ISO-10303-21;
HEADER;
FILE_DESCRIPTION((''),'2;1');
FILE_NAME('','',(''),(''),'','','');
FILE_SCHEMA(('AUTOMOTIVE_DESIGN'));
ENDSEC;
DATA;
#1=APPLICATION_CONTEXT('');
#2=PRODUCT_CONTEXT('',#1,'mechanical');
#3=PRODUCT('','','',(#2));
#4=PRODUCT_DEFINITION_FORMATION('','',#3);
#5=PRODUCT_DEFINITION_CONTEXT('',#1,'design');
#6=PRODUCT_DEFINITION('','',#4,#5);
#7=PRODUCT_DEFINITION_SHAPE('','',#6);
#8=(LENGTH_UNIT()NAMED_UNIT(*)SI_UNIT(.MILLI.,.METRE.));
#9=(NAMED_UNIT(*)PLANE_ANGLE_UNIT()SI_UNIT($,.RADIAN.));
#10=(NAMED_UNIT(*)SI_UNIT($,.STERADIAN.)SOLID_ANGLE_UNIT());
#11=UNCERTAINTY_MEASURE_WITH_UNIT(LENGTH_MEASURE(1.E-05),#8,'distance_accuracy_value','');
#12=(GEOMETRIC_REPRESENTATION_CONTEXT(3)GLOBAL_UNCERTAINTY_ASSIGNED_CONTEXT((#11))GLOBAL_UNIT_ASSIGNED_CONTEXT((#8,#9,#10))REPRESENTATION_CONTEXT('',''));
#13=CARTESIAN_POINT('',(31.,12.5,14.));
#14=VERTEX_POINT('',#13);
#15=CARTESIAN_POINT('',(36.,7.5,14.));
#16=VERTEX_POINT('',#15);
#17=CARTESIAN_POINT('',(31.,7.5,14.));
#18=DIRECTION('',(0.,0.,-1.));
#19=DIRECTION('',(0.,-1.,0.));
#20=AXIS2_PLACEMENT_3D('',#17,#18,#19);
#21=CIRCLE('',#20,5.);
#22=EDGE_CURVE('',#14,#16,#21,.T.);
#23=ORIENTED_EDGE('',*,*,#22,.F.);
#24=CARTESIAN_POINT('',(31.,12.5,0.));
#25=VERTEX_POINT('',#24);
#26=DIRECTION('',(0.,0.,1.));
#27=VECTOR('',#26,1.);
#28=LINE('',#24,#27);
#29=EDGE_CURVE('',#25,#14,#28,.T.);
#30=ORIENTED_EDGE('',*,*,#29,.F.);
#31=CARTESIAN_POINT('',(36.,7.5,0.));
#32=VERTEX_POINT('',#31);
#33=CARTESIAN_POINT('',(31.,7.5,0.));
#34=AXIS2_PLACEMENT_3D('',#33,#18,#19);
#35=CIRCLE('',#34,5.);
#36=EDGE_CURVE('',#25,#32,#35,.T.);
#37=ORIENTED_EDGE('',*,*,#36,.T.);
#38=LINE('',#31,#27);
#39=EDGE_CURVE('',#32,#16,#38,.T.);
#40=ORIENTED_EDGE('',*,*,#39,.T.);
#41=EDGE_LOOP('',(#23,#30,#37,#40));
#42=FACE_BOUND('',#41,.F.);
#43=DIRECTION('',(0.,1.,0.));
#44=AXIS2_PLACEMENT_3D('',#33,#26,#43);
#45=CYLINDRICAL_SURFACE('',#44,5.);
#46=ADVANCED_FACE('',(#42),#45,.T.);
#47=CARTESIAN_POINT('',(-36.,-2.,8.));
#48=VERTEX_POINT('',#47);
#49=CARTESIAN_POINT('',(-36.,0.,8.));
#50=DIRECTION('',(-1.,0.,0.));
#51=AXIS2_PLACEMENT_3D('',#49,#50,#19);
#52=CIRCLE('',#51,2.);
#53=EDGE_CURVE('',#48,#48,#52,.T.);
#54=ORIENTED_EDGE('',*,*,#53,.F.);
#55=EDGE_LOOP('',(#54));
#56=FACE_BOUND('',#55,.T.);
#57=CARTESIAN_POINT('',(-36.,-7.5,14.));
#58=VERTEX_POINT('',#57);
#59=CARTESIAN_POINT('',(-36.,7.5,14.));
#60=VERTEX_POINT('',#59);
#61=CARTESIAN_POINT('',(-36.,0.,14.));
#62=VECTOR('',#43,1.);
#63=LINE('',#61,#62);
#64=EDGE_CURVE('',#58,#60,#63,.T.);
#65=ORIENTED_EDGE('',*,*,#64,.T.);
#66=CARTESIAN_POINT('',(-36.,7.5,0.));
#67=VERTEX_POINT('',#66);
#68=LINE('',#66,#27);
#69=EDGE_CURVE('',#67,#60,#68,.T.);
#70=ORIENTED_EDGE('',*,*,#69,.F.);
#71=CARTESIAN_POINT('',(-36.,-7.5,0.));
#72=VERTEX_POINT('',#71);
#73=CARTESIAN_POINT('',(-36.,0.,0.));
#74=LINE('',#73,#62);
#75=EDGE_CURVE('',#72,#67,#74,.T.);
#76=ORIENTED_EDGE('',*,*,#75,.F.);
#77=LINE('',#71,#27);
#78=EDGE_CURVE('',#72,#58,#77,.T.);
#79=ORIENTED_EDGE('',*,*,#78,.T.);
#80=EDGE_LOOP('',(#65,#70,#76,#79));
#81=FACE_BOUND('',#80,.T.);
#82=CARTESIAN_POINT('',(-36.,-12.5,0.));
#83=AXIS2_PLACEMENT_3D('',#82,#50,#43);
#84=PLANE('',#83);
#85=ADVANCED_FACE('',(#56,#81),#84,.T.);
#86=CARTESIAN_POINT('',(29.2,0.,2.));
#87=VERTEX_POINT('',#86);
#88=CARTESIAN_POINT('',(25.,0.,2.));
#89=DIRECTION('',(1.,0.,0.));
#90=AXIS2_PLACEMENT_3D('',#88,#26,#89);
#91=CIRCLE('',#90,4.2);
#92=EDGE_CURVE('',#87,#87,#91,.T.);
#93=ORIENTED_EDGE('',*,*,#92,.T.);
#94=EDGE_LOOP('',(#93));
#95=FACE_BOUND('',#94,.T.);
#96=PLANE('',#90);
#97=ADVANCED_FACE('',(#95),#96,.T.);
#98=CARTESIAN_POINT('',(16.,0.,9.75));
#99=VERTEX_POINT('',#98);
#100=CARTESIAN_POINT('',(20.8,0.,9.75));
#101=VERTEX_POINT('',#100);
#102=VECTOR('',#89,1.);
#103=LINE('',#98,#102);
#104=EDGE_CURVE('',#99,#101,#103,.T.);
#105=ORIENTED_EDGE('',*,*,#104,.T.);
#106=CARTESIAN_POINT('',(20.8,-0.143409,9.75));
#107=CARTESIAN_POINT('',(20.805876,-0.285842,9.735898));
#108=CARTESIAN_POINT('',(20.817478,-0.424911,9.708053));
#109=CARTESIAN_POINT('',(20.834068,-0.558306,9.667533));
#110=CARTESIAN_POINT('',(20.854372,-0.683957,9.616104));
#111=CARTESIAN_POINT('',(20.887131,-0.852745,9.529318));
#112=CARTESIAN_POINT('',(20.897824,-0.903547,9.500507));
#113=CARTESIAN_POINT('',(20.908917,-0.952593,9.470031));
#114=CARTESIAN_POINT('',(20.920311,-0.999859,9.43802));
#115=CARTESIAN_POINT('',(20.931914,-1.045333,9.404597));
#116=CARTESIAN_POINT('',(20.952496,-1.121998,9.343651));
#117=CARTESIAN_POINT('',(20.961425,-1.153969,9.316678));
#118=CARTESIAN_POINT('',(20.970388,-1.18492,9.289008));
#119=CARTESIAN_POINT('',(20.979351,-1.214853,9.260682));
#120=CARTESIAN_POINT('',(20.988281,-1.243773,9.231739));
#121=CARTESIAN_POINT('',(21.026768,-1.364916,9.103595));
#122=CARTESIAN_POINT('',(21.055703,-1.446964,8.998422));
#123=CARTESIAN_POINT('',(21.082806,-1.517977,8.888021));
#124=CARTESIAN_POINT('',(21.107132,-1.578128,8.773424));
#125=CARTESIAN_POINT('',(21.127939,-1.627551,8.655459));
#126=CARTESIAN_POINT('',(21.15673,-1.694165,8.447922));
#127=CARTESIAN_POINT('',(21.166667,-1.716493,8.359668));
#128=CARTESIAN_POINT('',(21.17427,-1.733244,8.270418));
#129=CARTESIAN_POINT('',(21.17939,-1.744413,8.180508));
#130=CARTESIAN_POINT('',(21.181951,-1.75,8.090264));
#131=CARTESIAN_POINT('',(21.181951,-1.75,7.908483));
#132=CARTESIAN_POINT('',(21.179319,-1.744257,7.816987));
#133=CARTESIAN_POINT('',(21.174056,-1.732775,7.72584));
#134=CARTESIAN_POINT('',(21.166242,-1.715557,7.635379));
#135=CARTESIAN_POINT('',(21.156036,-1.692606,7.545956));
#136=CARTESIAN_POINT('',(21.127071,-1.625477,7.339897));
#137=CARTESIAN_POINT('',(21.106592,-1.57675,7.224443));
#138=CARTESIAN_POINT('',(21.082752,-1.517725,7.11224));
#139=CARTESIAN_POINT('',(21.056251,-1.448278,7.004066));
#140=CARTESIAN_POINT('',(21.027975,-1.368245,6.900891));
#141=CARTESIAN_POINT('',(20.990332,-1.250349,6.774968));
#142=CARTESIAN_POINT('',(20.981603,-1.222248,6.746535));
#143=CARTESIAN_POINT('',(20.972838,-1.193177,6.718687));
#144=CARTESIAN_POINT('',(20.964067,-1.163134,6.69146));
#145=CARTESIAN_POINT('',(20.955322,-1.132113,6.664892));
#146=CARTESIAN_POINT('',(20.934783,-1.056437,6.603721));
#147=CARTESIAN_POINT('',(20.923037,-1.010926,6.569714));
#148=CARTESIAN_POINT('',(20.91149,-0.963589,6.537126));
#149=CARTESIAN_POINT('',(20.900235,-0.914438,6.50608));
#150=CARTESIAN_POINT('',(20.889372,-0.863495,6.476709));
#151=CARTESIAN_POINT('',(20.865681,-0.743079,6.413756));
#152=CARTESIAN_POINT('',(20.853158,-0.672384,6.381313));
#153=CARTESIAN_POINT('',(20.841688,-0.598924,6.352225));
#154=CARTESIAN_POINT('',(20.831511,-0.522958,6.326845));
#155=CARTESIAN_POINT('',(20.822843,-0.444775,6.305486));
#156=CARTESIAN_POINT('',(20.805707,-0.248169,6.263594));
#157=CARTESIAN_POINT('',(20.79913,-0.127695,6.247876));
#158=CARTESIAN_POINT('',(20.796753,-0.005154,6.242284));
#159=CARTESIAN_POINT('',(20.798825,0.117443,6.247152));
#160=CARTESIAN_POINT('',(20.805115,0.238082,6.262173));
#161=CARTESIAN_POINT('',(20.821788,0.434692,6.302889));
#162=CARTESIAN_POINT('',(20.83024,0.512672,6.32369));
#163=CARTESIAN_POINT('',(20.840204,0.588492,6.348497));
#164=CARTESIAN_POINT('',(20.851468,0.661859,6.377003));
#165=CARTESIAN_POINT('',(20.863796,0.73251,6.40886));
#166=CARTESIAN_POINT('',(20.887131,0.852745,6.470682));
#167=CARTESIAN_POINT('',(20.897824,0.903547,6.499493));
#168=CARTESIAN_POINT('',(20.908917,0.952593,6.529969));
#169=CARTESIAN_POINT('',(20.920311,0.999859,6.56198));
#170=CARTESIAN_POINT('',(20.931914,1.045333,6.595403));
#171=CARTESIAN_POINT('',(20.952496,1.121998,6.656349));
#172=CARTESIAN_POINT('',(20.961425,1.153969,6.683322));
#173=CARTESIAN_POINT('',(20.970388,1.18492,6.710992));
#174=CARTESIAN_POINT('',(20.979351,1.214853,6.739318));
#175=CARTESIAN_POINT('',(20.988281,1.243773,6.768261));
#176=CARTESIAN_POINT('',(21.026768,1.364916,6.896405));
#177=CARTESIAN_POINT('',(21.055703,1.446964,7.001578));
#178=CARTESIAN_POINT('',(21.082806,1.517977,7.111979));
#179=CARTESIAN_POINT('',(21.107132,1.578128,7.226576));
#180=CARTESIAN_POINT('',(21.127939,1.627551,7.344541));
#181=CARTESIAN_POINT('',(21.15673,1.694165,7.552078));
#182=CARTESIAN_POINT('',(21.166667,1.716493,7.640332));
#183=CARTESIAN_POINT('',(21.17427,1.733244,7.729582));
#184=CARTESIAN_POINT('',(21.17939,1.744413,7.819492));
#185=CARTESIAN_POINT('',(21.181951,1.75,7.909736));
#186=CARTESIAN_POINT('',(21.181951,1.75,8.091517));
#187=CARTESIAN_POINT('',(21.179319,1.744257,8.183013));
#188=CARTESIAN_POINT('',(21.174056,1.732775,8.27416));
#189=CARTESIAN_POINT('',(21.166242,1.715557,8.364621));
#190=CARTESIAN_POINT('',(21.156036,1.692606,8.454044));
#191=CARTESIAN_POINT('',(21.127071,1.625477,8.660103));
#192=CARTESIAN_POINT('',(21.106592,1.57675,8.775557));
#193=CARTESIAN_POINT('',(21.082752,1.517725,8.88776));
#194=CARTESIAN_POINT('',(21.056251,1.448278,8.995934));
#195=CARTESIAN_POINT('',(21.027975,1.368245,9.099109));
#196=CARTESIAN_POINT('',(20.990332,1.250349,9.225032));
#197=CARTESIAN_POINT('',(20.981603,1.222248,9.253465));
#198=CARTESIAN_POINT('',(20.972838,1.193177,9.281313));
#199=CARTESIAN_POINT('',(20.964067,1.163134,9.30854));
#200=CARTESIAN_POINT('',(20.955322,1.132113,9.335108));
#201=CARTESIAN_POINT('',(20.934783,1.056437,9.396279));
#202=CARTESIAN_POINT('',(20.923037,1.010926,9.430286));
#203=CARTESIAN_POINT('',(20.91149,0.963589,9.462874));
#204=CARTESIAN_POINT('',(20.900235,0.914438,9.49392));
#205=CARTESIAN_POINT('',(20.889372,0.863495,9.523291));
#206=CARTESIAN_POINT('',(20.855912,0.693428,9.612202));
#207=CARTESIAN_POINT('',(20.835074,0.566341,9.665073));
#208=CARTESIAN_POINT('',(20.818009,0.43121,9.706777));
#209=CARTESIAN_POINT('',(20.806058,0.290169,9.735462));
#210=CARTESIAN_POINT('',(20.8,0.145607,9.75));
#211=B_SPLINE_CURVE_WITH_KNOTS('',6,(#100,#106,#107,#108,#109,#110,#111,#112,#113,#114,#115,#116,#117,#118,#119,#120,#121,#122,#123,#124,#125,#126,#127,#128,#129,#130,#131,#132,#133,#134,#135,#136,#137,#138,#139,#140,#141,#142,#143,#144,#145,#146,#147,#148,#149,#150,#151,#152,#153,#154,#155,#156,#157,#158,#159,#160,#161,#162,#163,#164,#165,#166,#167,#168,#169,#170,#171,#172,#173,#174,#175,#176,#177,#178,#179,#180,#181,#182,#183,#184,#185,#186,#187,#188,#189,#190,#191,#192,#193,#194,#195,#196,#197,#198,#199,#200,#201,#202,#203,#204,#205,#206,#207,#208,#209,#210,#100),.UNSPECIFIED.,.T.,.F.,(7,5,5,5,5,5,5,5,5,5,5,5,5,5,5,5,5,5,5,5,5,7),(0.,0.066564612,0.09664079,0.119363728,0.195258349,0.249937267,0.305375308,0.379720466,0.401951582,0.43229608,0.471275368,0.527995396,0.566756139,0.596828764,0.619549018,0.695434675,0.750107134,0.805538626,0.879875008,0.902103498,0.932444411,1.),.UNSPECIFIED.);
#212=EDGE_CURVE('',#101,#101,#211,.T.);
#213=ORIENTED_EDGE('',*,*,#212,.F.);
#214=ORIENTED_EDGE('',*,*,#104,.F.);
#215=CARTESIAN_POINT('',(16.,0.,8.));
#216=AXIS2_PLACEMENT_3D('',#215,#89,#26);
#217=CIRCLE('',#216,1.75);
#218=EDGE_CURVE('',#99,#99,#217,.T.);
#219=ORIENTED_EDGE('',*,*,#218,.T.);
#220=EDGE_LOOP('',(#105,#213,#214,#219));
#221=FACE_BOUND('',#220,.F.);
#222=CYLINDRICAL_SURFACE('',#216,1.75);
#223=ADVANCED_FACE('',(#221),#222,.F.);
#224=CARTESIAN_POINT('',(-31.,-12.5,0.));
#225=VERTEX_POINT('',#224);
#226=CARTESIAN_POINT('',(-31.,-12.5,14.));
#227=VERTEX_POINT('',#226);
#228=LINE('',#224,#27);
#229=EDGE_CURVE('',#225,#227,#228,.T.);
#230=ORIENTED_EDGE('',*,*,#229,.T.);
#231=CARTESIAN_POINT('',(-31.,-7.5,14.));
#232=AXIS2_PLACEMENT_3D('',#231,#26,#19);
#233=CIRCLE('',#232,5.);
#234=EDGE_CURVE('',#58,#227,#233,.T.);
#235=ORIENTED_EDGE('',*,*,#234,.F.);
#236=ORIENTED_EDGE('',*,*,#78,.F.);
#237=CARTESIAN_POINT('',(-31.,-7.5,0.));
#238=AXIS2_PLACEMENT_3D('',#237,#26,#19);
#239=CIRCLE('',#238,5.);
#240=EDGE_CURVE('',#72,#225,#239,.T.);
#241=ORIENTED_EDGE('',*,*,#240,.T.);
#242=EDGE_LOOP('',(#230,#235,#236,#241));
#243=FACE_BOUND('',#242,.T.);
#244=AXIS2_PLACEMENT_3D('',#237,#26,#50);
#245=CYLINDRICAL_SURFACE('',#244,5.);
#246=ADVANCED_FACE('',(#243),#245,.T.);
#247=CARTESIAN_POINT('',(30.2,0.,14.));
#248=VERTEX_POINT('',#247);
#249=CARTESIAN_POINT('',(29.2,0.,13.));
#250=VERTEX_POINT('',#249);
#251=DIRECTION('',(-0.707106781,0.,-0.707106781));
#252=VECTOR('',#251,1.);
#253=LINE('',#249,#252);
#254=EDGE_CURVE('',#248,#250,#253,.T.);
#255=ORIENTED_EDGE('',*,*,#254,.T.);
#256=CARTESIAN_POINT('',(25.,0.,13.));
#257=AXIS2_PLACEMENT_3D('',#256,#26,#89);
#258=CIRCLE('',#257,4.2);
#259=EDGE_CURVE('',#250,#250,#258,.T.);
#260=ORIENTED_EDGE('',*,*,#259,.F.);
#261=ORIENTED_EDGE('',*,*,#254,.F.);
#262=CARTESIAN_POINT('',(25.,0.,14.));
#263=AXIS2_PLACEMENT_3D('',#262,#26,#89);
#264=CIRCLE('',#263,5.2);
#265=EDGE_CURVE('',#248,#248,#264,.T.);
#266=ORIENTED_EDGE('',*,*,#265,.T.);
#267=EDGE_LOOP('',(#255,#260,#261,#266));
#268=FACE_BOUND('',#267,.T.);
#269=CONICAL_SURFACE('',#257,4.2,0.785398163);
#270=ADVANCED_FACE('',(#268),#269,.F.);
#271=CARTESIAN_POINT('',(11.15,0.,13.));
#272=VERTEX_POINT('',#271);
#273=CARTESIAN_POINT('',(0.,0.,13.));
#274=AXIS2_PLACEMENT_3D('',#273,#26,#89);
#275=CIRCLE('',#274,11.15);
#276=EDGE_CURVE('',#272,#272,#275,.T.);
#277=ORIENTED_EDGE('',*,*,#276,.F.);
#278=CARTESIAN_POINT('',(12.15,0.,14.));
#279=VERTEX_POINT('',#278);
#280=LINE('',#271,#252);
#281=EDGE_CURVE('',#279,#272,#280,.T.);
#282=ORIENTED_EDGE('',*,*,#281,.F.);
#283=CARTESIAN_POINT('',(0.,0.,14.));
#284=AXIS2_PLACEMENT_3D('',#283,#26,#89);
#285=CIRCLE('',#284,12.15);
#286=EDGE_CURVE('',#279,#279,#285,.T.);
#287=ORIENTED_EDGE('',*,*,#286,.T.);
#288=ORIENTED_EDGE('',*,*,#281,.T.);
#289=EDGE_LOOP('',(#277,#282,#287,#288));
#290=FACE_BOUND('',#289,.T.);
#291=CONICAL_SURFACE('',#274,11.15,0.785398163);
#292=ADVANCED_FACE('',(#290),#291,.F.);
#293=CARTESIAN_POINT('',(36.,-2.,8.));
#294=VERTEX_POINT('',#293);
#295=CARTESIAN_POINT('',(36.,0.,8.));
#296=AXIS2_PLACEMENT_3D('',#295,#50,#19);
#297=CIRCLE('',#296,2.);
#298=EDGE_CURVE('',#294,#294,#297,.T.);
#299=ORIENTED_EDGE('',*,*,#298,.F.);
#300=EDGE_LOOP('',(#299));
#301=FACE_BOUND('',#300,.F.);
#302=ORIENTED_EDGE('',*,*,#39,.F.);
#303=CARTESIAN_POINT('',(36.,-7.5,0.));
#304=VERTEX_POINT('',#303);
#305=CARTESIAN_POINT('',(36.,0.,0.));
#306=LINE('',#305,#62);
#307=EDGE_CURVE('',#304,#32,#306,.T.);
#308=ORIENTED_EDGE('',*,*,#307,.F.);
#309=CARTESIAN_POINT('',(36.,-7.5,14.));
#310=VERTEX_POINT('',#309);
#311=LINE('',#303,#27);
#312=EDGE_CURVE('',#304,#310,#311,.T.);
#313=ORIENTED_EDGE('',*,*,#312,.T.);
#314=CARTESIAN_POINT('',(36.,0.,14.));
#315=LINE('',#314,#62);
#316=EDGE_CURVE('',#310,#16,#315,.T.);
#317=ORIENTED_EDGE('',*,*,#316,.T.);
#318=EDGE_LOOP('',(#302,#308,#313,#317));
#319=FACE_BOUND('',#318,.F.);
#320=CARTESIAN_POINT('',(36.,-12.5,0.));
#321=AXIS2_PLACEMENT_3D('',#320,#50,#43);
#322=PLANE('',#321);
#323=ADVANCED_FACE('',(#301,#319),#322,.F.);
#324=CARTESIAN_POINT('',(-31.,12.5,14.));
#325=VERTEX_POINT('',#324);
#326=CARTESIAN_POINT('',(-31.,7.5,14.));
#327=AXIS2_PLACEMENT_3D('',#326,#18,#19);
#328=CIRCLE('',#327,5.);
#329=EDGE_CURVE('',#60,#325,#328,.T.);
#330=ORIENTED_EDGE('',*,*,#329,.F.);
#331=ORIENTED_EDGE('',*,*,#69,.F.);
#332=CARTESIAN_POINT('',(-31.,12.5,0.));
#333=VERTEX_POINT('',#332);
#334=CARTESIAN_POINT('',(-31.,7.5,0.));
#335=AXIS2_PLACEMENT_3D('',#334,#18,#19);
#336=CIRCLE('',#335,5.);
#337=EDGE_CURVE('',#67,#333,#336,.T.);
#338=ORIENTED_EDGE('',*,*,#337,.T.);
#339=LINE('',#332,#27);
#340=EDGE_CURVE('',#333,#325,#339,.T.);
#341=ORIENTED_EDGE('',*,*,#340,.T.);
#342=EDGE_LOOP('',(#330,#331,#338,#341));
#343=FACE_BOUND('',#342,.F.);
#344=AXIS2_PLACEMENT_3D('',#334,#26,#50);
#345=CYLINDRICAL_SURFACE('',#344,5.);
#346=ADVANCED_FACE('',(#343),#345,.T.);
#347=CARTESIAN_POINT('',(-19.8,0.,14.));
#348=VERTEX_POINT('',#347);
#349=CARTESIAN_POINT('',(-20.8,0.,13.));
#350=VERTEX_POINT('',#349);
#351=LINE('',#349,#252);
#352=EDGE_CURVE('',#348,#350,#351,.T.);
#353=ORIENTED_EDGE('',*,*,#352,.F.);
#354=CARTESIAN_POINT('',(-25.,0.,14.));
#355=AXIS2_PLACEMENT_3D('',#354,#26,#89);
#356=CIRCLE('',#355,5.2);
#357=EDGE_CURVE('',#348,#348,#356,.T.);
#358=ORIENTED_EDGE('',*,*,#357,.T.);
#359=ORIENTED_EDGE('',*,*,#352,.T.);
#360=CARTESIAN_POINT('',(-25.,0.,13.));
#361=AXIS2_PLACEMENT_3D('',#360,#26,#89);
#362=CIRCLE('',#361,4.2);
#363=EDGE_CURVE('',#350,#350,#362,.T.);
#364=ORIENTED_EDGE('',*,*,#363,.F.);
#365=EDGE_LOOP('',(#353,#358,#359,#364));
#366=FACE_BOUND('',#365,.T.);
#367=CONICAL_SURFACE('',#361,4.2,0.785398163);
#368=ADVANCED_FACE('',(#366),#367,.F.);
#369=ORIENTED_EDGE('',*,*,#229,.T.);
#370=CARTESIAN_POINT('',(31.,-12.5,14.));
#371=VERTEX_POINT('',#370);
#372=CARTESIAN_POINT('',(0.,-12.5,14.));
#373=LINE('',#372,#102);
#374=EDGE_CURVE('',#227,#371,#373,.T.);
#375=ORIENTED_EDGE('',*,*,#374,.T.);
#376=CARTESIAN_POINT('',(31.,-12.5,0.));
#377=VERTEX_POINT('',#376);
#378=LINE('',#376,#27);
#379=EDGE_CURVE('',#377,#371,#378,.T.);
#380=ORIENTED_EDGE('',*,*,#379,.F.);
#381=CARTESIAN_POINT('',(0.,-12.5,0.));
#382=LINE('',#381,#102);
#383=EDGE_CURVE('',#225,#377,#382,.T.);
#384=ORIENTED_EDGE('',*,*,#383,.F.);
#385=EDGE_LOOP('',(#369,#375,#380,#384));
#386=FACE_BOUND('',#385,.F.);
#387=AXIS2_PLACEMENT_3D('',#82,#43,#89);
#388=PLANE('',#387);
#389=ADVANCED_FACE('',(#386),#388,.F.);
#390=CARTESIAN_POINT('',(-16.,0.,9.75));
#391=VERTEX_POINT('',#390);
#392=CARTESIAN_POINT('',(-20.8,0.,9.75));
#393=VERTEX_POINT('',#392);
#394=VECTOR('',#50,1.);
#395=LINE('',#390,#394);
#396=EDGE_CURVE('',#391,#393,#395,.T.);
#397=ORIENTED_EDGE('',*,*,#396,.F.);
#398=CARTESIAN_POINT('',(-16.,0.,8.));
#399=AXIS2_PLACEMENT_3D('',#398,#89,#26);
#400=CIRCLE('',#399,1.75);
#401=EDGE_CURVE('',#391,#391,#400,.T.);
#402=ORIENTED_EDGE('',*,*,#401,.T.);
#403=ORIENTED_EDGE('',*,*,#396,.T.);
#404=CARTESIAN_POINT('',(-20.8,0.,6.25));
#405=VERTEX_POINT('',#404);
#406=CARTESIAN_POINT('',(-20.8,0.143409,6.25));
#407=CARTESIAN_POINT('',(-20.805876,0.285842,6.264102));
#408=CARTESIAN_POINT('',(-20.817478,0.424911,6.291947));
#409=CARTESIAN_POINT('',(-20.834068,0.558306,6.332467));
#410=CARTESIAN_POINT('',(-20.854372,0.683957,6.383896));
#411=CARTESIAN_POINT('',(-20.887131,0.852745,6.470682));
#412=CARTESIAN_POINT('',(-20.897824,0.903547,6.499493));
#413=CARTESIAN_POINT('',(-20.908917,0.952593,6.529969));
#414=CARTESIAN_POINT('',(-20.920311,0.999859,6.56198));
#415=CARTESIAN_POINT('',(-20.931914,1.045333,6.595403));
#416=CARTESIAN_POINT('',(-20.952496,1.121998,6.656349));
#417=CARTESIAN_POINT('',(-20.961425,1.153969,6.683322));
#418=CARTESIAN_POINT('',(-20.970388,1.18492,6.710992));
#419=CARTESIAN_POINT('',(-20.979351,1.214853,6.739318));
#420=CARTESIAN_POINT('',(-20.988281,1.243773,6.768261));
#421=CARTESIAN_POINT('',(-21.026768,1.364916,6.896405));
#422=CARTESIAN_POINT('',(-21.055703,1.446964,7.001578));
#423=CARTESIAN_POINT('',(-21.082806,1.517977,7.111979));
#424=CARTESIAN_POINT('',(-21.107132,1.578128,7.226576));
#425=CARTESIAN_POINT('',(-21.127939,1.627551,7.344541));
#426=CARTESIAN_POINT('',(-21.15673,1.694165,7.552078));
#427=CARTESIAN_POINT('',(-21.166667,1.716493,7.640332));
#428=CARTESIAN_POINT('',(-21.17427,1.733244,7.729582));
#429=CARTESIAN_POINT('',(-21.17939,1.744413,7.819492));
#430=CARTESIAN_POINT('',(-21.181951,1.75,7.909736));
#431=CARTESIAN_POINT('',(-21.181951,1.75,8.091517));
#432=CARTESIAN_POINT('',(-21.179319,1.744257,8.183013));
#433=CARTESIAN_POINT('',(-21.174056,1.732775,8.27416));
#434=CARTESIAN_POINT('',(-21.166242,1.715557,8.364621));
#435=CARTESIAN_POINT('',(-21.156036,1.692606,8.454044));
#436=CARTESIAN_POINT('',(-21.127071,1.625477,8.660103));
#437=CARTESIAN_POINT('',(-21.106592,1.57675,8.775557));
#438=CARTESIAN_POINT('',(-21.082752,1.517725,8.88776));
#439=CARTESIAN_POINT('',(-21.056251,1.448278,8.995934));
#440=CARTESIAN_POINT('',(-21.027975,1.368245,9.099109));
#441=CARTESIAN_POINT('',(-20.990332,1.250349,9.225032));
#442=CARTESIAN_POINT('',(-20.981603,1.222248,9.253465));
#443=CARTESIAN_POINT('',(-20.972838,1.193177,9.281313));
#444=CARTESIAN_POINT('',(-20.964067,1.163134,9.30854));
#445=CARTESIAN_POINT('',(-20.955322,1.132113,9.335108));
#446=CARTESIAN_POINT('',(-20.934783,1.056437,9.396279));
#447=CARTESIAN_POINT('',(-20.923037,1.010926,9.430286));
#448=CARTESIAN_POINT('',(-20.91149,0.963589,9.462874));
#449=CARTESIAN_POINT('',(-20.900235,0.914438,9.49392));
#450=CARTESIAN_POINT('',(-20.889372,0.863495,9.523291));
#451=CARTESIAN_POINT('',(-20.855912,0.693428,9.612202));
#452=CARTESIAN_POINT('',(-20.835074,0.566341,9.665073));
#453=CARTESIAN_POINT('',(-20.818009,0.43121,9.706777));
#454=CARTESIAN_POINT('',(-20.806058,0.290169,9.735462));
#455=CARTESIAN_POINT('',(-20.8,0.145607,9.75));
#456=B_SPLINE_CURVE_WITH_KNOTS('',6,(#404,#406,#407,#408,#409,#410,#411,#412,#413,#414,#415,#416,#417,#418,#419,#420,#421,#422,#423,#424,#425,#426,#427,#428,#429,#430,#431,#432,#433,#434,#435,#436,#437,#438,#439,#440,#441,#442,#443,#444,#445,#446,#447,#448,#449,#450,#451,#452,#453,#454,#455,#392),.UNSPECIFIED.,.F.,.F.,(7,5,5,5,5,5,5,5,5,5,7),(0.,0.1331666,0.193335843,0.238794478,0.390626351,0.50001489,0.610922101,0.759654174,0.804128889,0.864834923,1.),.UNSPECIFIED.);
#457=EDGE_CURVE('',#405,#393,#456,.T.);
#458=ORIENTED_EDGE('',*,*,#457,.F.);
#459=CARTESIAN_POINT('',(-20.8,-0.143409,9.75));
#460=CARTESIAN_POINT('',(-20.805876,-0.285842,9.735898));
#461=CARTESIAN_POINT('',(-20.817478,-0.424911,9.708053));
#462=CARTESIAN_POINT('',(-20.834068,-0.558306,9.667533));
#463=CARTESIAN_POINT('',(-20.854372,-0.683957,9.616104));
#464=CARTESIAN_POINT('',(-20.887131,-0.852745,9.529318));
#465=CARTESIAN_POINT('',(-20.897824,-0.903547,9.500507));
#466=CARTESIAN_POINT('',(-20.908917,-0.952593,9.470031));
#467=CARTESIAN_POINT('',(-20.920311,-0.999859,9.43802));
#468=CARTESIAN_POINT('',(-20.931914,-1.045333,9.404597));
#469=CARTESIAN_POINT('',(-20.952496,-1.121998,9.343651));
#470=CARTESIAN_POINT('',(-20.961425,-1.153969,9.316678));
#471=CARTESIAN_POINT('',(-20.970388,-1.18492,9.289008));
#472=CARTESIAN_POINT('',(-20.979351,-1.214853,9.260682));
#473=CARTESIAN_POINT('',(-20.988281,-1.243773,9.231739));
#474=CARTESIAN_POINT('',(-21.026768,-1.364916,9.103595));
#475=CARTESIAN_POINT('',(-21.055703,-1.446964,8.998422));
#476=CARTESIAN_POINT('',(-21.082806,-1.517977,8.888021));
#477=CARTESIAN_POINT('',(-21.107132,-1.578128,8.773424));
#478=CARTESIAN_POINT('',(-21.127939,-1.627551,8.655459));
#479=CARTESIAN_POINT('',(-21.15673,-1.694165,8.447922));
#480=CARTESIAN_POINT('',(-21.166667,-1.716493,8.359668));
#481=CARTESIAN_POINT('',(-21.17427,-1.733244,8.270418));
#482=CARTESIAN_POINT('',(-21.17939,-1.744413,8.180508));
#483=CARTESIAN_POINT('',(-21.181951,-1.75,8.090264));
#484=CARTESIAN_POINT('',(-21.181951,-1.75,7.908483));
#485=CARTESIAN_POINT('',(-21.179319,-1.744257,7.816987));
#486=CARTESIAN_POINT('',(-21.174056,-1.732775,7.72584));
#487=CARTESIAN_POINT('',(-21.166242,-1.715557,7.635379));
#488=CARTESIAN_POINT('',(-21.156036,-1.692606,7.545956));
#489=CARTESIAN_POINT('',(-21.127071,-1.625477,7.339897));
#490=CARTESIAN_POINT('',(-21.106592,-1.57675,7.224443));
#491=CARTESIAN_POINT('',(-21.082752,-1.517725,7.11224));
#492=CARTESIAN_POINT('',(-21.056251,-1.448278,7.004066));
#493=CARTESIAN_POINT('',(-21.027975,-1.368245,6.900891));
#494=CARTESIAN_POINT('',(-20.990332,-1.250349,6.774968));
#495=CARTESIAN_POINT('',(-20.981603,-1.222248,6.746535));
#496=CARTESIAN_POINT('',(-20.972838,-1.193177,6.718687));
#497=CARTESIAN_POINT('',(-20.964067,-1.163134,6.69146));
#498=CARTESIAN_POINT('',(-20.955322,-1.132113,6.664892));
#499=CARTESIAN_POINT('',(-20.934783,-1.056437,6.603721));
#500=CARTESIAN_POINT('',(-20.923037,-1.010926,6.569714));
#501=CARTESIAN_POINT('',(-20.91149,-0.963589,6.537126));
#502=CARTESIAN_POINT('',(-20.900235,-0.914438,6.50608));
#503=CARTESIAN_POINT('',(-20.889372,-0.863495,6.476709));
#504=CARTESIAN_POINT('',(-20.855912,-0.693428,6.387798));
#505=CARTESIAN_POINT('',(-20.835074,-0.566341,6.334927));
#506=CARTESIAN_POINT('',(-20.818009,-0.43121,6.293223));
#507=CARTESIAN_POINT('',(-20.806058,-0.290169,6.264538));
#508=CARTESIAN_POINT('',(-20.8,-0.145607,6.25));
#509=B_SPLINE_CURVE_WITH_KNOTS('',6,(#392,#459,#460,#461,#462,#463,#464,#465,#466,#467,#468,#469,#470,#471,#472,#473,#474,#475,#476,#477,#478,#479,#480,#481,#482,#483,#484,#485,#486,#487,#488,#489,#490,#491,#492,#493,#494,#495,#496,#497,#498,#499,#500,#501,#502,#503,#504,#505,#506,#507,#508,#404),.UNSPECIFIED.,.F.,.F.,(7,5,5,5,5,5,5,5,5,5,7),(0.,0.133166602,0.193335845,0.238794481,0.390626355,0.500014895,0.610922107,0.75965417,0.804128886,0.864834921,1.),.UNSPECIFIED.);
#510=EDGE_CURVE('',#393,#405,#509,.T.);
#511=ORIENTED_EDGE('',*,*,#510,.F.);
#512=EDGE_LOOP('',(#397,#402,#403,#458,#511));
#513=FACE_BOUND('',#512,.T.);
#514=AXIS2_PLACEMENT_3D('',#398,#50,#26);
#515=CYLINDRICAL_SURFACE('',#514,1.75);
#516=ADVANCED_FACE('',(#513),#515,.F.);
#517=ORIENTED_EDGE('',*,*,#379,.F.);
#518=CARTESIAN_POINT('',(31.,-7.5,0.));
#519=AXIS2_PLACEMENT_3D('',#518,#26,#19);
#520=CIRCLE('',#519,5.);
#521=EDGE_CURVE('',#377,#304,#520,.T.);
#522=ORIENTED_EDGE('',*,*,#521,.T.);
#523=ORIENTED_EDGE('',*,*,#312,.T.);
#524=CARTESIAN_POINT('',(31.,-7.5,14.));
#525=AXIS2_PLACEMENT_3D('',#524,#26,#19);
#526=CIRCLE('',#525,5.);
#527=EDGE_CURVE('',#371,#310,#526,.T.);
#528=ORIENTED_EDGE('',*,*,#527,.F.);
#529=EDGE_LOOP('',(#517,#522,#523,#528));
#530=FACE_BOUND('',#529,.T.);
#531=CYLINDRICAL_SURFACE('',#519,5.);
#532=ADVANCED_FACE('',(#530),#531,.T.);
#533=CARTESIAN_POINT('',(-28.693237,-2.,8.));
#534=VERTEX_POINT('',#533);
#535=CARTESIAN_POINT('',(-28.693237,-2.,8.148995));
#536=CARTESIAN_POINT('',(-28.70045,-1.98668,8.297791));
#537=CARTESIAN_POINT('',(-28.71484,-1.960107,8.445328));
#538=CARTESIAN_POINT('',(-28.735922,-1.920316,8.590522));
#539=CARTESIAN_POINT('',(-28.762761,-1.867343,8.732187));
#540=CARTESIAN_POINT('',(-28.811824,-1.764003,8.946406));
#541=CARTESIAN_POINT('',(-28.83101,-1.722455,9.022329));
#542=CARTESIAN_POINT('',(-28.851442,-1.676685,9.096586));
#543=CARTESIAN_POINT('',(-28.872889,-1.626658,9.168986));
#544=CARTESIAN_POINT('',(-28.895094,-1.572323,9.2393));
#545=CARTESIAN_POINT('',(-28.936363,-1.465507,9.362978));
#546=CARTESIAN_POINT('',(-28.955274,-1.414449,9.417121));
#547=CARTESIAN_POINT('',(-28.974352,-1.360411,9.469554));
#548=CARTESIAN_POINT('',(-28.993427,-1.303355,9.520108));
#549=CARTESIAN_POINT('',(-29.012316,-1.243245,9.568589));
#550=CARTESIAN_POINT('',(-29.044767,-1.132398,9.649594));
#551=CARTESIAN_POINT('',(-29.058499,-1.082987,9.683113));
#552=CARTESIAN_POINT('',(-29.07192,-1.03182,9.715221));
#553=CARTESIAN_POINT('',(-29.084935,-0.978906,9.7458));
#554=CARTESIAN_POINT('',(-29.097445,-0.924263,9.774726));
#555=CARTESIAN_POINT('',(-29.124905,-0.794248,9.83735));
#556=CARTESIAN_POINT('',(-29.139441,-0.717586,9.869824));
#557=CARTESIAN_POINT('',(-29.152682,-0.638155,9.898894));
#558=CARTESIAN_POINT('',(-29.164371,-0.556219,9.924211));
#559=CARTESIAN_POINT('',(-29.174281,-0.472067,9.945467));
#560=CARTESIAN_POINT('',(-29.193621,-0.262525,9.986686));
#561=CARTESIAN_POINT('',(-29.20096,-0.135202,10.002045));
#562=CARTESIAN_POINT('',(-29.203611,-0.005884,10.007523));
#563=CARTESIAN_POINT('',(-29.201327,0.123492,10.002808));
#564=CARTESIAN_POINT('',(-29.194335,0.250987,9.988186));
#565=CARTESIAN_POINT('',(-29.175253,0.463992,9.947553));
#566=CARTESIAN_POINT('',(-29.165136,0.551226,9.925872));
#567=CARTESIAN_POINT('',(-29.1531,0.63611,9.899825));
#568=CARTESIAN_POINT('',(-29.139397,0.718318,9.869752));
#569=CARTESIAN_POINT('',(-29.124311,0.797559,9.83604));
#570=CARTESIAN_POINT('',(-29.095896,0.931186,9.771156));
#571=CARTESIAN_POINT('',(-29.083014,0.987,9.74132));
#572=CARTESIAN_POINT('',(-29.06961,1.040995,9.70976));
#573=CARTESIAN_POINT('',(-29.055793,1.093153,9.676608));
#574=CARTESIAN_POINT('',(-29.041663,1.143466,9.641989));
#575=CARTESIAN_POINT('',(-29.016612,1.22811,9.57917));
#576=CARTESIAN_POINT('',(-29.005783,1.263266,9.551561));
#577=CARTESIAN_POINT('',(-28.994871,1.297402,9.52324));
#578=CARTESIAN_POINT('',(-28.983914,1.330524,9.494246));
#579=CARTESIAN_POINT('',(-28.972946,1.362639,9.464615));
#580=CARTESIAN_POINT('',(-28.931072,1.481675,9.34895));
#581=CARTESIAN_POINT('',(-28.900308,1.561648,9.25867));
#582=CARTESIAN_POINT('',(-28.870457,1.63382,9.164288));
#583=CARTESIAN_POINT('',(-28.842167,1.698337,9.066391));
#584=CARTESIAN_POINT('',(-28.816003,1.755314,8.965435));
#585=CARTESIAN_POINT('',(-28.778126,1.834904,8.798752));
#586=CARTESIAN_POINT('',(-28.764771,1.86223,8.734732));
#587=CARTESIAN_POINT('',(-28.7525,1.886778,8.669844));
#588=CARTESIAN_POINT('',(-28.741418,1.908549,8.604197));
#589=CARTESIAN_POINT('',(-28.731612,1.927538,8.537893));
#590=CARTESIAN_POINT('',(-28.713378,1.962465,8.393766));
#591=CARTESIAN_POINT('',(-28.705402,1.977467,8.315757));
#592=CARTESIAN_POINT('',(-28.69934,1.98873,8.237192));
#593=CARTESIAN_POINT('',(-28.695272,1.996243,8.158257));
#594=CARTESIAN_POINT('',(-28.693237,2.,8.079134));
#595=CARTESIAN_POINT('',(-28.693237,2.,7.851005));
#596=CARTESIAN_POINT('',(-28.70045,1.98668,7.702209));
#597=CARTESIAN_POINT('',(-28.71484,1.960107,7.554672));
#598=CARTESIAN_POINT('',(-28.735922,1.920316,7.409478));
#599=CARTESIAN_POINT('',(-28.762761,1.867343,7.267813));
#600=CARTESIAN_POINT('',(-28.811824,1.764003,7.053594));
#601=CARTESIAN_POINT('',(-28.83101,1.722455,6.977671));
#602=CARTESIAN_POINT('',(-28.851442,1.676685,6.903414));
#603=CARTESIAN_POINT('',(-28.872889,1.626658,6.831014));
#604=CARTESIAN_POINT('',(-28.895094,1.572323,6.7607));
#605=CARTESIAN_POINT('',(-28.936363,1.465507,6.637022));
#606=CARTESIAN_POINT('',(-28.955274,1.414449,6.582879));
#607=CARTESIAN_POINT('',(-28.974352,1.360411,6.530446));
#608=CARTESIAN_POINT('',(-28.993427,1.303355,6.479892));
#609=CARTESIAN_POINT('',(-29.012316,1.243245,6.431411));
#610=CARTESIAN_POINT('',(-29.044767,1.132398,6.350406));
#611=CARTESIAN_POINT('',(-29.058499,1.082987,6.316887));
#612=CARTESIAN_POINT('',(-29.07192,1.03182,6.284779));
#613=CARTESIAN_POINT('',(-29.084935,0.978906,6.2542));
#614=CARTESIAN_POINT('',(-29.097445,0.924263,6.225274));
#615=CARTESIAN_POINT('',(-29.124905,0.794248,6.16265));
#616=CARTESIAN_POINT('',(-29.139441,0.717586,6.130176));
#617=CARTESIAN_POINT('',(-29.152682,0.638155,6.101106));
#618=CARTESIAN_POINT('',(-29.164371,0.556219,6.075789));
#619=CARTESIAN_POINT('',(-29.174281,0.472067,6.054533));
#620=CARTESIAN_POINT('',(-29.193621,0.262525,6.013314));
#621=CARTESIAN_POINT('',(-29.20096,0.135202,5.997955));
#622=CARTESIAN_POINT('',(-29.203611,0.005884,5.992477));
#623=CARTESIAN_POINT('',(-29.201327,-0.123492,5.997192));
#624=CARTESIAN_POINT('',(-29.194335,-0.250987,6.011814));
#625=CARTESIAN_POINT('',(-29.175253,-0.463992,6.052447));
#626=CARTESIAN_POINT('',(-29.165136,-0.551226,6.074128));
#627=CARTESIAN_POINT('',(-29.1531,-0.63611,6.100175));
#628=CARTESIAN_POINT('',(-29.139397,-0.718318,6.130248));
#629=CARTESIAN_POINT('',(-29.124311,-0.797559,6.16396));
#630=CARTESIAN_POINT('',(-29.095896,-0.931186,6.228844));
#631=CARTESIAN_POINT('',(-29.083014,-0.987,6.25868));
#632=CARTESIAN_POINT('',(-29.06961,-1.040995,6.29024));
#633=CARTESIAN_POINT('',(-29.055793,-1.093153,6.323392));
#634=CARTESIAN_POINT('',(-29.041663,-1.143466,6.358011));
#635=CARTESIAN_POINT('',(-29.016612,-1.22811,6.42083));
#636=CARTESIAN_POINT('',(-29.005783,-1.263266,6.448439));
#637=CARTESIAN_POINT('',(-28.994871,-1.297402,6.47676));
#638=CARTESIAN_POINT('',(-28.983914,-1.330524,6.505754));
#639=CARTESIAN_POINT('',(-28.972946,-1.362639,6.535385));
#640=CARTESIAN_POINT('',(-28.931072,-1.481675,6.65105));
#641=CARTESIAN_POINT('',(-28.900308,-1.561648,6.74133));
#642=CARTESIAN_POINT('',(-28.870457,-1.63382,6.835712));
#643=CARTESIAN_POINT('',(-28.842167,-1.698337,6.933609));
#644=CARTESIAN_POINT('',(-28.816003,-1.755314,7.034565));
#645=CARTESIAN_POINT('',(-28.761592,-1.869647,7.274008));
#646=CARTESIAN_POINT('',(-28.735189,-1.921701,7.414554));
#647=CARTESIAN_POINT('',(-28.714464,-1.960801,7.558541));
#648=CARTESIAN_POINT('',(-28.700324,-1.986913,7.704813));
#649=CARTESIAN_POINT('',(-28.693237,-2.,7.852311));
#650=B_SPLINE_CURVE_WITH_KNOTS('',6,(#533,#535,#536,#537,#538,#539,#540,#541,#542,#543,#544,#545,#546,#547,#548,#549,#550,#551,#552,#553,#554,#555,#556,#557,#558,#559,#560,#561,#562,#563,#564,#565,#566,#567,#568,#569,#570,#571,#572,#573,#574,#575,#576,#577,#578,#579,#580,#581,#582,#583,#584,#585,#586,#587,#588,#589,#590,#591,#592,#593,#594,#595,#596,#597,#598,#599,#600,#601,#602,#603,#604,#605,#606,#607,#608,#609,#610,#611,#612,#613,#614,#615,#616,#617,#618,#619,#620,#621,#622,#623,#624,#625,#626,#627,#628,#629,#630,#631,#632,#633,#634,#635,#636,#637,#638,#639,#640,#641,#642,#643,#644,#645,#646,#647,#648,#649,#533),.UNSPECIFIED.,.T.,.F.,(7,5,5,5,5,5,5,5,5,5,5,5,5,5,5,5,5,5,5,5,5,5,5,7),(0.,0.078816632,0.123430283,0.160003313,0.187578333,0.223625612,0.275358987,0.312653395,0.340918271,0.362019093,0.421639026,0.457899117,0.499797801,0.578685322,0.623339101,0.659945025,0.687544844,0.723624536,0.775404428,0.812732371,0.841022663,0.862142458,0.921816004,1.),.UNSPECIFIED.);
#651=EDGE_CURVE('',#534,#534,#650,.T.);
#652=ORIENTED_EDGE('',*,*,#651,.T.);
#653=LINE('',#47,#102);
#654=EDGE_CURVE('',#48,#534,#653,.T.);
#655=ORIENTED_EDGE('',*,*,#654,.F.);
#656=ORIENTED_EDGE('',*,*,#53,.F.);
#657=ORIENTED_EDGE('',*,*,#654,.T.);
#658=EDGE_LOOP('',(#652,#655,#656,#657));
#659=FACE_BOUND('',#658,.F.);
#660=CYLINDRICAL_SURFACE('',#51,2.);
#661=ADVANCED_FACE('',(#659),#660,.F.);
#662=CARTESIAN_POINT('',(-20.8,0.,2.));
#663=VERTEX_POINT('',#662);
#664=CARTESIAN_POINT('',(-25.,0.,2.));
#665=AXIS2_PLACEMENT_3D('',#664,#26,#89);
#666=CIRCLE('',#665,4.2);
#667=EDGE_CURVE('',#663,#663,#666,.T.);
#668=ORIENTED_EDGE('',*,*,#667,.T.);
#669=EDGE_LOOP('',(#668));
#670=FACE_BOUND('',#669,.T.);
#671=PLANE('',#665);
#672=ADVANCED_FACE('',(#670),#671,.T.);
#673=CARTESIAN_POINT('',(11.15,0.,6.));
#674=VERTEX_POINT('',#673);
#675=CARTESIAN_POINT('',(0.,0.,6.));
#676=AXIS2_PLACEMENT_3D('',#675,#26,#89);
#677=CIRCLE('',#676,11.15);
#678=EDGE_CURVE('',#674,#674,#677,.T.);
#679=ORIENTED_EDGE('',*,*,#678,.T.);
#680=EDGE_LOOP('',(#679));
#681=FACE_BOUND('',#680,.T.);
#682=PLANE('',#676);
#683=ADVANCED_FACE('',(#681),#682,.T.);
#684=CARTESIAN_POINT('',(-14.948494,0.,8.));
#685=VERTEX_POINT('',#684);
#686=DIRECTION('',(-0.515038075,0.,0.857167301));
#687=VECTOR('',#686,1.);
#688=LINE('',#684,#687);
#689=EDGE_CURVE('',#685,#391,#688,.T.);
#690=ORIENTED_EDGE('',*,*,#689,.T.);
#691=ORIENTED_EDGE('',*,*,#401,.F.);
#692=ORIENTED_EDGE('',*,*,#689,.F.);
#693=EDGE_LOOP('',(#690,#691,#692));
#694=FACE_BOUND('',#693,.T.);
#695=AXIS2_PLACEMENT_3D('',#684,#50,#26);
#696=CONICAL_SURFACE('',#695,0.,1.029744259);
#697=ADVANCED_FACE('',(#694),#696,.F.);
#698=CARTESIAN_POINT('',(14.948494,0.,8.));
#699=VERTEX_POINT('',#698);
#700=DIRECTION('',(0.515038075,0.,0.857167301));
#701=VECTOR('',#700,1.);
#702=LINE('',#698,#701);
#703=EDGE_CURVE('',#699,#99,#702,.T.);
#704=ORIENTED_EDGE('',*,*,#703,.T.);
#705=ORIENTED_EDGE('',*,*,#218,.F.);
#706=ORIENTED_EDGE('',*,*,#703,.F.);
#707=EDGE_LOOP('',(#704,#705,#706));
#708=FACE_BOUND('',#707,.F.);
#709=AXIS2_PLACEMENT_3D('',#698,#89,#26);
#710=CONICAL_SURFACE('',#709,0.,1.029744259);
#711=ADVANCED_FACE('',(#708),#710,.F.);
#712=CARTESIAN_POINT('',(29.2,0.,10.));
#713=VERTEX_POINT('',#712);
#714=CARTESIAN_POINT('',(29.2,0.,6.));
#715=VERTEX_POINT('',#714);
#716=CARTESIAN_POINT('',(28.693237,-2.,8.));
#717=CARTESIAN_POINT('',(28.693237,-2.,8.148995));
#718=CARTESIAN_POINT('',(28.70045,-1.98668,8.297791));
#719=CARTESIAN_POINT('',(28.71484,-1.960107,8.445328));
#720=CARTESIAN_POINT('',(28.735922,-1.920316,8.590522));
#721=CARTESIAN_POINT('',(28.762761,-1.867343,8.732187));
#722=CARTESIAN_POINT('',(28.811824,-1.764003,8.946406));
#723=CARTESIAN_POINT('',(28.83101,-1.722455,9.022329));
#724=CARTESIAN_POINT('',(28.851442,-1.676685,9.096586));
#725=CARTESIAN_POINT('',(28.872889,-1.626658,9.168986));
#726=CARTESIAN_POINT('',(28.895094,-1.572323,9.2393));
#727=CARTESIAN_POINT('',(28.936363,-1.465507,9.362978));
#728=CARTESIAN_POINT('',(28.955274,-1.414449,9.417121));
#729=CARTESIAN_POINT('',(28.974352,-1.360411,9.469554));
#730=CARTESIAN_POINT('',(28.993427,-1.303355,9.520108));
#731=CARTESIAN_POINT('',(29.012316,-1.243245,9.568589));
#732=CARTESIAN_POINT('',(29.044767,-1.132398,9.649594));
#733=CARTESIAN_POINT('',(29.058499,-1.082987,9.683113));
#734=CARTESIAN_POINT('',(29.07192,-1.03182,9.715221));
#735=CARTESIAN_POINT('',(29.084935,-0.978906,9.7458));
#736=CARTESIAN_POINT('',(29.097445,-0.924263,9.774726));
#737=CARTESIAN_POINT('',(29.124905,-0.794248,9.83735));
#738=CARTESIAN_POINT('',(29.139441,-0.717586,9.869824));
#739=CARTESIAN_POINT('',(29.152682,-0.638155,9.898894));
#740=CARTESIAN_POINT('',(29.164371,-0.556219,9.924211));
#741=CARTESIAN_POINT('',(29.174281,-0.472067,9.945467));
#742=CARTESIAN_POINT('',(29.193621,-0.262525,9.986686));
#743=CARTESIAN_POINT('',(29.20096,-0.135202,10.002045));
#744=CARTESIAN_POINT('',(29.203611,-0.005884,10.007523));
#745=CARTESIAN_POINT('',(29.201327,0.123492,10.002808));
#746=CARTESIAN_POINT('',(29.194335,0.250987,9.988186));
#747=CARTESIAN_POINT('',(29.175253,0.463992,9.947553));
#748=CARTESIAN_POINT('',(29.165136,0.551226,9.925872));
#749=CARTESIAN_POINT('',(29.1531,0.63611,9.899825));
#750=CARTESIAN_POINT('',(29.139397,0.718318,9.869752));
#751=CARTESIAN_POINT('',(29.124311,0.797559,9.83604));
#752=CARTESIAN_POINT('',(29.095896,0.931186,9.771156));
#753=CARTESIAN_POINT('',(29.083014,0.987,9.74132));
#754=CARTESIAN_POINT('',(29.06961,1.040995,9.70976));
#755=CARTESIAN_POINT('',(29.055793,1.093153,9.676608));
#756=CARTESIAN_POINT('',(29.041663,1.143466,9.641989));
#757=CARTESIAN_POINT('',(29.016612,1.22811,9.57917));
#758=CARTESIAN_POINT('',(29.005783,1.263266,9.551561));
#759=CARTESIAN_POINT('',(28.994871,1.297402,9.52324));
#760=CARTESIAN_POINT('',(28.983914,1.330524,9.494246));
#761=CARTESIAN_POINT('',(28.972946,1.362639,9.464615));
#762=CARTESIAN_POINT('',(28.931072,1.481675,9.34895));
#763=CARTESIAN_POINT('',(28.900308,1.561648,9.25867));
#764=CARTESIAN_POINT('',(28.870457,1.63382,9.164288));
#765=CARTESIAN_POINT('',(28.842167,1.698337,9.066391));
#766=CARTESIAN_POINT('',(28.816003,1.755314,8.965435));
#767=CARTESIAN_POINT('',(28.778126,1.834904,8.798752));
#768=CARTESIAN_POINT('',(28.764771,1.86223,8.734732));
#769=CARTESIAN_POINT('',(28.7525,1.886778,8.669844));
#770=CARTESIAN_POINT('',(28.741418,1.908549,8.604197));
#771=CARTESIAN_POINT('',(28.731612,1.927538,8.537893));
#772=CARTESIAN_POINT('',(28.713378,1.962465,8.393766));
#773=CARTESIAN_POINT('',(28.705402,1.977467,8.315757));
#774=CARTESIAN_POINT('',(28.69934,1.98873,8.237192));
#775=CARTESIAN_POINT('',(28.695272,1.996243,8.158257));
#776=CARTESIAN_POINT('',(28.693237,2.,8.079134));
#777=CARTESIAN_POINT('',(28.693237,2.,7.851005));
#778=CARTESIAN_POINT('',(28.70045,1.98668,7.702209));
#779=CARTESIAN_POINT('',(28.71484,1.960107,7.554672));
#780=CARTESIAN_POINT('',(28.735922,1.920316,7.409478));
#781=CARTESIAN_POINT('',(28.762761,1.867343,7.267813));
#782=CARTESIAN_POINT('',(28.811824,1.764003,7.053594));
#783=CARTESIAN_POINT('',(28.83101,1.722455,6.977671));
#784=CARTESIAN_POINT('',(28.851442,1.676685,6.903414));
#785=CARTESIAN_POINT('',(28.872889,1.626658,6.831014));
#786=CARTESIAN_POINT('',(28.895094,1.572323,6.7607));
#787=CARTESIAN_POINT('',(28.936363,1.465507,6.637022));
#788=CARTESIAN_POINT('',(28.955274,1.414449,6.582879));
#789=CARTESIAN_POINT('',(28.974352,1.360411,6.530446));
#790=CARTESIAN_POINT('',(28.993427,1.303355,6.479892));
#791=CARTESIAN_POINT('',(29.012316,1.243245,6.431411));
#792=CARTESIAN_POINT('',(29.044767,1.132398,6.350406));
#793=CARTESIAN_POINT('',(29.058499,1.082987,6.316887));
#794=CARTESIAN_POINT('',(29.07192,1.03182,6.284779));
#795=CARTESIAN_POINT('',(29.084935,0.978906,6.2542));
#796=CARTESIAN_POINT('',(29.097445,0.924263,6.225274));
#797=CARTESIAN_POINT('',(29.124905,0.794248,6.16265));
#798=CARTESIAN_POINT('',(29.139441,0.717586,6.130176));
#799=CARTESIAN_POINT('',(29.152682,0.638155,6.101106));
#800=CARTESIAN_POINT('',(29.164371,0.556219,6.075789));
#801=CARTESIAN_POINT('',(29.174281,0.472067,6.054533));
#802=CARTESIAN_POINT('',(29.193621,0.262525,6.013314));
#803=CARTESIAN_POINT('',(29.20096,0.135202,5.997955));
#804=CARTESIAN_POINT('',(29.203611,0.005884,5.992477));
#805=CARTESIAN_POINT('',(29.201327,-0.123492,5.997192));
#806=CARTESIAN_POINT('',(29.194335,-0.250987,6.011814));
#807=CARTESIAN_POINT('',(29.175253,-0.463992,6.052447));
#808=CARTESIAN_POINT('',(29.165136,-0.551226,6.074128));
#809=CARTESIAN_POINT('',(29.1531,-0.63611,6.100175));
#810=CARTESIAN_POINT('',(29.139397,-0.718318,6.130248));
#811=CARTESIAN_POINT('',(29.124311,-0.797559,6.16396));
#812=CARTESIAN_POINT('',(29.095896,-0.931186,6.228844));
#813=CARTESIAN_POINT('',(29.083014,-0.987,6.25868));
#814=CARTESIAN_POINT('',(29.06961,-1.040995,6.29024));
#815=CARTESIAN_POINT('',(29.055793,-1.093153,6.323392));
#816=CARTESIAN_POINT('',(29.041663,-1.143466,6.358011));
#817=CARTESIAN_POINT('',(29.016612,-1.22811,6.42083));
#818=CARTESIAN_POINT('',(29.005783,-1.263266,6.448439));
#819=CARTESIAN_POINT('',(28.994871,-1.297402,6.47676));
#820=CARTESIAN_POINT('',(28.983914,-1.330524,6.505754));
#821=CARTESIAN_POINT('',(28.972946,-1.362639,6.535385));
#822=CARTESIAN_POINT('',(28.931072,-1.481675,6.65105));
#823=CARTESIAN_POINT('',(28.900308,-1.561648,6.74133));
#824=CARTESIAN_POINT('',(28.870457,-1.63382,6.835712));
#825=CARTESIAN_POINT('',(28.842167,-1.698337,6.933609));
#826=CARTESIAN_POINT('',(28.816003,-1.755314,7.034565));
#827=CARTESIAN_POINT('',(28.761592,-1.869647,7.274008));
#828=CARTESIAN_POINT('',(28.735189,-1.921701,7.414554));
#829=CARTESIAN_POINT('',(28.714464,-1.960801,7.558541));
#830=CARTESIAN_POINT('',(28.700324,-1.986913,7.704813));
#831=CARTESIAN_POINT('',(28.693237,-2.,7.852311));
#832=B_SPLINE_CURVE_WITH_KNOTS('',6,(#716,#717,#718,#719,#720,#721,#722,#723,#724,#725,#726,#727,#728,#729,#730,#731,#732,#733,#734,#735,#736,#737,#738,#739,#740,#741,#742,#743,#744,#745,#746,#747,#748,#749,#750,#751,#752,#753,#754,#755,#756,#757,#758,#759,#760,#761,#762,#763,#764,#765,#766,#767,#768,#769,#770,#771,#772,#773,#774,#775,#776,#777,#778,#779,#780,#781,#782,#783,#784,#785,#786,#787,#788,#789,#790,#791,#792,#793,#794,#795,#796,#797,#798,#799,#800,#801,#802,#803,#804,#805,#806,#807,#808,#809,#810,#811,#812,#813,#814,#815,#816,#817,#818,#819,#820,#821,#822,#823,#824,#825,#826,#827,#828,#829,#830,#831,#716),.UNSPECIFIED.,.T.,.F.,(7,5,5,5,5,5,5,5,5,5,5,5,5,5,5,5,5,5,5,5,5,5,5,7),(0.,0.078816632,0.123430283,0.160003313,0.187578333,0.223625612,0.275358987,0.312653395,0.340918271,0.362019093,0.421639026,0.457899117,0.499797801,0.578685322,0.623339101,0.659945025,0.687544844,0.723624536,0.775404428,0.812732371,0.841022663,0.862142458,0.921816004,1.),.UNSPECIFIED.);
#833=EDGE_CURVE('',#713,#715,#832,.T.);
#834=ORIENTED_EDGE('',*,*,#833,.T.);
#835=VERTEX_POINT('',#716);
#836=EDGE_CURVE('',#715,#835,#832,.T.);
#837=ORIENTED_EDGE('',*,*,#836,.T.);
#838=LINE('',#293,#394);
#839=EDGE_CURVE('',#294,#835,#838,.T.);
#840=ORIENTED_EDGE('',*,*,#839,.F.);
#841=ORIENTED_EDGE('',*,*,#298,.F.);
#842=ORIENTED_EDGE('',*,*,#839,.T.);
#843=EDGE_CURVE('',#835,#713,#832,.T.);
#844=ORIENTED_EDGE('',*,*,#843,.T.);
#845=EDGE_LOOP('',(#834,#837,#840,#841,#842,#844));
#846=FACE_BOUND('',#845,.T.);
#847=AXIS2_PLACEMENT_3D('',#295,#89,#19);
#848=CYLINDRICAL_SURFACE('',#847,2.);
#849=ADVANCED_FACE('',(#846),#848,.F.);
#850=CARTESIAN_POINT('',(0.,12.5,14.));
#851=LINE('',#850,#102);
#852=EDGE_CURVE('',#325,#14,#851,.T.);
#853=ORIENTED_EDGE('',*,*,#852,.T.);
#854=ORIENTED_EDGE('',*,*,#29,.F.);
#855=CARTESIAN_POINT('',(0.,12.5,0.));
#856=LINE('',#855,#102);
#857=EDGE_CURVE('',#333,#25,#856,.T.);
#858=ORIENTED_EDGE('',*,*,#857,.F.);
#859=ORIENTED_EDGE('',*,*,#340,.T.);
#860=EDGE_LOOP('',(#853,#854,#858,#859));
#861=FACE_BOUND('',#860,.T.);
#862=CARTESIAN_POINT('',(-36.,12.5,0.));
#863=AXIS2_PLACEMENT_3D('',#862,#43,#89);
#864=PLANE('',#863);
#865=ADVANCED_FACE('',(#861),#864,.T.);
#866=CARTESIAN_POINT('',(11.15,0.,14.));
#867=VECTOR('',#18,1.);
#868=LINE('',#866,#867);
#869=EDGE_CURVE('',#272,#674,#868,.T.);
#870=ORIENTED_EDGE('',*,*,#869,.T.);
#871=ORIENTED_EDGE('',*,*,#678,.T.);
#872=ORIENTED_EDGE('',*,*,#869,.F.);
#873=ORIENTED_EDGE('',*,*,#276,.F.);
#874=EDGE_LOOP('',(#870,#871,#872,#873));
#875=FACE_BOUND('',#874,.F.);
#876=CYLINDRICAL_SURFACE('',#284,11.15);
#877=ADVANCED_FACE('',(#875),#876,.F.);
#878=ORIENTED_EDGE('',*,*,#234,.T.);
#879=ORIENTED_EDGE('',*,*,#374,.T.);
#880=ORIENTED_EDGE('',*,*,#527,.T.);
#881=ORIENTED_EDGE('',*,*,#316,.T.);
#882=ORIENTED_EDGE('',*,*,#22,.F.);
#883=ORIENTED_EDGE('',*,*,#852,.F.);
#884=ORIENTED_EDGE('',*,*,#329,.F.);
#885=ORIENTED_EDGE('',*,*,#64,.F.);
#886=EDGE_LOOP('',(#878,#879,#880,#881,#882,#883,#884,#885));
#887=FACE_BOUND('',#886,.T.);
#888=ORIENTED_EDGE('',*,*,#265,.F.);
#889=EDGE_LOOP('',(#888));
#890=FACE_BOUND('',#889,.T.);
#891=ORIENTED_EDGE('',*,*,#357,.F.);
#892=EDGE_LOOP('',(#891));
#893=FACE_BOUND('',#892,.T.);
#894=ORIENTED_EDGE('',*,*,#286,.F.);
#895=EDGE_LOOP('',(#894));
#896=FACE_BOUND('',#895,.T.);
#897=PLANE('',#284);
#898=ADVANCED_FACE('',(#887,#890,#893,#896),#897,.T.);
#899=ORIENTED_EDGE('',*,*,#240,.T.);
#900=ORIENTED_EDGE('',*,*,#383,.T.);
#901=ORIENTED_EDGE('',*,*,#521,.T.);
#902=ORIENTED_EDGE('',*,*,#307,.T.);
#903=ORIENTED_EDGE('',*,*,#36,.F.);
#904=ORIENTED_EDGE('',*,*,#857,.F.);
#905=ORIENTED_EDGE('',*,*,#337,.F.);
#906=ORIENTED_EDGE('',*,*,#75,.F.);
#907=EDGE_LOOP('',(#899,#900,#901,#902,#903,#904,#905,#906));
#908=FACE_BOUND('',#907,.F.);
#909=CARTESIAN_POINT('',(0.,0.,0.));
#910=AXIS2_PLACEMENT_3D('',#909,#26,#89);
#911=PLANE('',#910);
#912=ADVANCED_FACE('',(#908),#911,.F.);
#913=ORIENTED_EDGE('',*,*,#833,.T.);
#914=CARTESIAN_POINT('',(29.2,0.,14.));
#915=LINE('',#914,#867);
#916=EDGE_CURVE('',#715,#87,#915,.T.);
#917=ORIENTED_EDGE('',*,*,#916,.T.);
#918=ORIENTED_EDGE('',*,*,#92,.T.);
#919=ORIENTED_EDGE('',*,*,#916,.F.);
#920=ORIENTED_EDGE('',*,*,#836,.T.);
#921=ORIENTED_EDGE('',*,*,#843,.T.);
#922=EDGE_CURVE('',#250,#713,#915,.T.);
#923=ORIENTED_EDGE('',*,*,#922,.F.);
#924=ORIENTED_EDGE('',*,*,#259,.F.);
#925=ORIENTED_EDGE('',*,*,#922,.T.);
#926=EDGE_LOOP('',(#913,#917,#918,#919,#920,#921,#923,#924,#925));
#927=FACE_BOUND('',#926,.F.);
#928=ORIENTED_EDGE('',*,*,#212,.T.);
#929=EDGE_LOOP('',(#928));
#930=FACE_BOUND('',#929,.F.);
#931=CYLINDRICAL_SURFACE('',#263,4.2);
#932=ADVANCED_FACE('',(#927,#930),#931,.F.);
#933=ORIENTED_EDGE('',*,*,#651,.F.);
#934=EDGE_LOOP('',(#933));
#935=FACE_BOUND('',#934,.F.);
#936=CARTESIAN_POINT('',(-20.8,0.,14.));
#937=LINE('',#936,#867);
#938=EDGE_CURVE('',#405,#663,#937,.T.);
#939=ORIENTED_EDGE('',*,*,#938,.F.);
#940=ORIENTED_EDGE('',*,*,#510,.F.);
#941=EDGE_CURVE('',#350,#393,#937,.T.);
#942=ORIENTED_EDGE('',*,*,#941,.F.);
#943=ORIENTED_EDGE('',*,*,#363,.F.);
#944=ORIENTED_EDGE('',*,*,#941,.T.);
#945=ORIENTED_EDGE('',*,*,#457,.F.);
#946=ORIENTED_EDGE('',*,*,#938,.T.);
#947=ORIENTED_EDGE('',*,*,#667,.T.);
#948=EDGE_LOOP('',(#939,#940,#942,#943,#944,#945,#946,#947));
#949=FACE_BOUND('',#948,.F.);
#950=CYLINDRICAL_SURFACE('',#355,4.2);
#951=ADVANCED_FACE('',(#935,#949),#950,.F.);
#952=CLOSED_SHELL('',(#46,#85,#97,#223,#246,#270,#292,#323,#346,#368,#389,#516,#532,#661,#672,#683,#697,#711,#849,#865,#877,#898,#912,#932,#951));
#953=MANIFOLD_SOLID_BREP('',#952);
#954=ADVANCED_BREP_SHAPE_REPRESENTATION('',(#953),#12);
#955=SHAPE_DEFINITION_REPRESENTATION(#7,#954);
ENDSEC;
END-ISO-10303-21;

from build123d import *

# Parameters (mm, degrees)
SKETCH1_W               = 72
SKETCH1_H               = 25
BOSS_EXTRUDE1_DEPTH     = 14
SKETCH2_R               = 11.15
CUT_EXTRUDE1_DEPTH      = 8
SKETCH3_R               = 4.2
CUT_EXTRUDE2_DEPTH      = 12
CUT_EXTRUDE3_REACH      = 76.406
CUT_EXTRUDE3_END_RADIUS = 4.2
SKETCH6_R               = 2
ZAOKR_GLENIE1_R         = 5
SFAZOWANIE1_SIZE        = 1


with BuildPart() as part:
    # Sketch1 → Boss-Extrude1 (new body)
    with BuildSketch(Plane.XY):
        Rectangle(SKETCH1_W, SKETCH1_H)
    extrude(amount=BOSS_EXTRUDE1_DEPTH)

    # Sketch2 → Cut-Extrude1 (cut)
    with BuildSketch(Plane.XY.offset(14)):
        Circle(SKETCH2_R)
    extrude(amount=-CUT_EXTRUDE1_DEPTH, mode=Mode.SUBTRACT)

    # Sketch3 → Cut-Extrude2 (cut)
    with BuildSketch(Plane.XY.offset(14)):
        with Locations((-25, 0)):
            Circle(SKETCH3_R)
        with Locations((25, 0)):
            Circle(SKETCH3_R)
    extrude(amount=-CUT_EXTRUDE2_DEPTH, mode=Mode.SUBTRACT)

    # Sketch5 → Ø3.5 (3.5) Diameter Hole1 (revolve, cut)
    with BuildSketch(Plane(origin=(-36, 0, 8), x_dir=(0, 0, 1), z_dir=(0, 1, 0))):
        Polygon((0, 0), (0, 21.051506083), (1.75, 20), (1.75, 0), align=None)
    f_3_5_3_5_diameter_hole1 = revolve(axis=Axis((-42.35, 0, 8), (1, 0, 0)), mode=Mode.SUBTRACT)

    # Cut-Extrude3: up to this cylinder (the profile starts outside it)
    cut_extrude3_end = Plane(origin=(-25, 0, 8), z_dir=(0, 0, 1)) * Cylinder(CUT_EXTRUDE3_END_RADIUS, 162.212, mode=Mode.PRIVATE)
    # Sketch6 → Cut-Extrude3 (cut, up to the surface)
    with BuildSketch(Plane.ZY.offset(36), mode=Mode.PRIVATE) as cut_extrude3_sk1:
        with Locations(Location((8, 0, 0), (0, 0, 270))):
            Circle(SKETCH6_R)
    cut_extrude3_tool1 = extrude(cut_extrude3_sk1.sketch, amount=-CUT_EXTRUDE3_REACH, mode=Mode.PRIVATE) - cut_extrude3_end
    cut_extrude3 = cut_extrude3_tool1.solids().sort_by_distance((-36, 0, 8))[0]
    add(cut_extrude3, mode=Mode.SUBTRACT)

    # Mirror1: Ø3.5 (3.5) Diameter Hole1, Cut-Extrude3 across plane
    add(f_3_5_3_5_diameter_hole1.mirror(Plane(origin=(0, 0, 0), x_dir=(0, 0, 1), z_dir=(1, 0, 0))), mode=Mode.SUBTRACT)
    add(cut_extrude3.mirror(Plane(origin=(0, 0, 0), x_dir=(0, 0, 1), z_dir=(1, 0, 0))), mode=Mode.SUBTRACT)

    # Zaokrąglenie1
    zaokr_glenie1_edges = [part.edges().sort_by_distance(p)[0] for p in [
        (-36, 12.5, 7),
        (36, 12.5, 7),
        (36, -12.5, 7),
        (-36, -12.5, 7),
    ]]
    fillet(zaokr_glenie1_edges, radius=ZAOKR_GLENIE1_R)

    # Sfazowanie1
    sfazowanie1_edges = [part.edges().sort_by_distance(p)[0] for p in [
        (-11.15, 0, 14),
        (-29.2, 0, 14),
        (20.8, 0, 14),
    ]]
    chamfer(sfazowanie1_edges, length=SFAZOWANIE1_SIZE)


solid = part.part
